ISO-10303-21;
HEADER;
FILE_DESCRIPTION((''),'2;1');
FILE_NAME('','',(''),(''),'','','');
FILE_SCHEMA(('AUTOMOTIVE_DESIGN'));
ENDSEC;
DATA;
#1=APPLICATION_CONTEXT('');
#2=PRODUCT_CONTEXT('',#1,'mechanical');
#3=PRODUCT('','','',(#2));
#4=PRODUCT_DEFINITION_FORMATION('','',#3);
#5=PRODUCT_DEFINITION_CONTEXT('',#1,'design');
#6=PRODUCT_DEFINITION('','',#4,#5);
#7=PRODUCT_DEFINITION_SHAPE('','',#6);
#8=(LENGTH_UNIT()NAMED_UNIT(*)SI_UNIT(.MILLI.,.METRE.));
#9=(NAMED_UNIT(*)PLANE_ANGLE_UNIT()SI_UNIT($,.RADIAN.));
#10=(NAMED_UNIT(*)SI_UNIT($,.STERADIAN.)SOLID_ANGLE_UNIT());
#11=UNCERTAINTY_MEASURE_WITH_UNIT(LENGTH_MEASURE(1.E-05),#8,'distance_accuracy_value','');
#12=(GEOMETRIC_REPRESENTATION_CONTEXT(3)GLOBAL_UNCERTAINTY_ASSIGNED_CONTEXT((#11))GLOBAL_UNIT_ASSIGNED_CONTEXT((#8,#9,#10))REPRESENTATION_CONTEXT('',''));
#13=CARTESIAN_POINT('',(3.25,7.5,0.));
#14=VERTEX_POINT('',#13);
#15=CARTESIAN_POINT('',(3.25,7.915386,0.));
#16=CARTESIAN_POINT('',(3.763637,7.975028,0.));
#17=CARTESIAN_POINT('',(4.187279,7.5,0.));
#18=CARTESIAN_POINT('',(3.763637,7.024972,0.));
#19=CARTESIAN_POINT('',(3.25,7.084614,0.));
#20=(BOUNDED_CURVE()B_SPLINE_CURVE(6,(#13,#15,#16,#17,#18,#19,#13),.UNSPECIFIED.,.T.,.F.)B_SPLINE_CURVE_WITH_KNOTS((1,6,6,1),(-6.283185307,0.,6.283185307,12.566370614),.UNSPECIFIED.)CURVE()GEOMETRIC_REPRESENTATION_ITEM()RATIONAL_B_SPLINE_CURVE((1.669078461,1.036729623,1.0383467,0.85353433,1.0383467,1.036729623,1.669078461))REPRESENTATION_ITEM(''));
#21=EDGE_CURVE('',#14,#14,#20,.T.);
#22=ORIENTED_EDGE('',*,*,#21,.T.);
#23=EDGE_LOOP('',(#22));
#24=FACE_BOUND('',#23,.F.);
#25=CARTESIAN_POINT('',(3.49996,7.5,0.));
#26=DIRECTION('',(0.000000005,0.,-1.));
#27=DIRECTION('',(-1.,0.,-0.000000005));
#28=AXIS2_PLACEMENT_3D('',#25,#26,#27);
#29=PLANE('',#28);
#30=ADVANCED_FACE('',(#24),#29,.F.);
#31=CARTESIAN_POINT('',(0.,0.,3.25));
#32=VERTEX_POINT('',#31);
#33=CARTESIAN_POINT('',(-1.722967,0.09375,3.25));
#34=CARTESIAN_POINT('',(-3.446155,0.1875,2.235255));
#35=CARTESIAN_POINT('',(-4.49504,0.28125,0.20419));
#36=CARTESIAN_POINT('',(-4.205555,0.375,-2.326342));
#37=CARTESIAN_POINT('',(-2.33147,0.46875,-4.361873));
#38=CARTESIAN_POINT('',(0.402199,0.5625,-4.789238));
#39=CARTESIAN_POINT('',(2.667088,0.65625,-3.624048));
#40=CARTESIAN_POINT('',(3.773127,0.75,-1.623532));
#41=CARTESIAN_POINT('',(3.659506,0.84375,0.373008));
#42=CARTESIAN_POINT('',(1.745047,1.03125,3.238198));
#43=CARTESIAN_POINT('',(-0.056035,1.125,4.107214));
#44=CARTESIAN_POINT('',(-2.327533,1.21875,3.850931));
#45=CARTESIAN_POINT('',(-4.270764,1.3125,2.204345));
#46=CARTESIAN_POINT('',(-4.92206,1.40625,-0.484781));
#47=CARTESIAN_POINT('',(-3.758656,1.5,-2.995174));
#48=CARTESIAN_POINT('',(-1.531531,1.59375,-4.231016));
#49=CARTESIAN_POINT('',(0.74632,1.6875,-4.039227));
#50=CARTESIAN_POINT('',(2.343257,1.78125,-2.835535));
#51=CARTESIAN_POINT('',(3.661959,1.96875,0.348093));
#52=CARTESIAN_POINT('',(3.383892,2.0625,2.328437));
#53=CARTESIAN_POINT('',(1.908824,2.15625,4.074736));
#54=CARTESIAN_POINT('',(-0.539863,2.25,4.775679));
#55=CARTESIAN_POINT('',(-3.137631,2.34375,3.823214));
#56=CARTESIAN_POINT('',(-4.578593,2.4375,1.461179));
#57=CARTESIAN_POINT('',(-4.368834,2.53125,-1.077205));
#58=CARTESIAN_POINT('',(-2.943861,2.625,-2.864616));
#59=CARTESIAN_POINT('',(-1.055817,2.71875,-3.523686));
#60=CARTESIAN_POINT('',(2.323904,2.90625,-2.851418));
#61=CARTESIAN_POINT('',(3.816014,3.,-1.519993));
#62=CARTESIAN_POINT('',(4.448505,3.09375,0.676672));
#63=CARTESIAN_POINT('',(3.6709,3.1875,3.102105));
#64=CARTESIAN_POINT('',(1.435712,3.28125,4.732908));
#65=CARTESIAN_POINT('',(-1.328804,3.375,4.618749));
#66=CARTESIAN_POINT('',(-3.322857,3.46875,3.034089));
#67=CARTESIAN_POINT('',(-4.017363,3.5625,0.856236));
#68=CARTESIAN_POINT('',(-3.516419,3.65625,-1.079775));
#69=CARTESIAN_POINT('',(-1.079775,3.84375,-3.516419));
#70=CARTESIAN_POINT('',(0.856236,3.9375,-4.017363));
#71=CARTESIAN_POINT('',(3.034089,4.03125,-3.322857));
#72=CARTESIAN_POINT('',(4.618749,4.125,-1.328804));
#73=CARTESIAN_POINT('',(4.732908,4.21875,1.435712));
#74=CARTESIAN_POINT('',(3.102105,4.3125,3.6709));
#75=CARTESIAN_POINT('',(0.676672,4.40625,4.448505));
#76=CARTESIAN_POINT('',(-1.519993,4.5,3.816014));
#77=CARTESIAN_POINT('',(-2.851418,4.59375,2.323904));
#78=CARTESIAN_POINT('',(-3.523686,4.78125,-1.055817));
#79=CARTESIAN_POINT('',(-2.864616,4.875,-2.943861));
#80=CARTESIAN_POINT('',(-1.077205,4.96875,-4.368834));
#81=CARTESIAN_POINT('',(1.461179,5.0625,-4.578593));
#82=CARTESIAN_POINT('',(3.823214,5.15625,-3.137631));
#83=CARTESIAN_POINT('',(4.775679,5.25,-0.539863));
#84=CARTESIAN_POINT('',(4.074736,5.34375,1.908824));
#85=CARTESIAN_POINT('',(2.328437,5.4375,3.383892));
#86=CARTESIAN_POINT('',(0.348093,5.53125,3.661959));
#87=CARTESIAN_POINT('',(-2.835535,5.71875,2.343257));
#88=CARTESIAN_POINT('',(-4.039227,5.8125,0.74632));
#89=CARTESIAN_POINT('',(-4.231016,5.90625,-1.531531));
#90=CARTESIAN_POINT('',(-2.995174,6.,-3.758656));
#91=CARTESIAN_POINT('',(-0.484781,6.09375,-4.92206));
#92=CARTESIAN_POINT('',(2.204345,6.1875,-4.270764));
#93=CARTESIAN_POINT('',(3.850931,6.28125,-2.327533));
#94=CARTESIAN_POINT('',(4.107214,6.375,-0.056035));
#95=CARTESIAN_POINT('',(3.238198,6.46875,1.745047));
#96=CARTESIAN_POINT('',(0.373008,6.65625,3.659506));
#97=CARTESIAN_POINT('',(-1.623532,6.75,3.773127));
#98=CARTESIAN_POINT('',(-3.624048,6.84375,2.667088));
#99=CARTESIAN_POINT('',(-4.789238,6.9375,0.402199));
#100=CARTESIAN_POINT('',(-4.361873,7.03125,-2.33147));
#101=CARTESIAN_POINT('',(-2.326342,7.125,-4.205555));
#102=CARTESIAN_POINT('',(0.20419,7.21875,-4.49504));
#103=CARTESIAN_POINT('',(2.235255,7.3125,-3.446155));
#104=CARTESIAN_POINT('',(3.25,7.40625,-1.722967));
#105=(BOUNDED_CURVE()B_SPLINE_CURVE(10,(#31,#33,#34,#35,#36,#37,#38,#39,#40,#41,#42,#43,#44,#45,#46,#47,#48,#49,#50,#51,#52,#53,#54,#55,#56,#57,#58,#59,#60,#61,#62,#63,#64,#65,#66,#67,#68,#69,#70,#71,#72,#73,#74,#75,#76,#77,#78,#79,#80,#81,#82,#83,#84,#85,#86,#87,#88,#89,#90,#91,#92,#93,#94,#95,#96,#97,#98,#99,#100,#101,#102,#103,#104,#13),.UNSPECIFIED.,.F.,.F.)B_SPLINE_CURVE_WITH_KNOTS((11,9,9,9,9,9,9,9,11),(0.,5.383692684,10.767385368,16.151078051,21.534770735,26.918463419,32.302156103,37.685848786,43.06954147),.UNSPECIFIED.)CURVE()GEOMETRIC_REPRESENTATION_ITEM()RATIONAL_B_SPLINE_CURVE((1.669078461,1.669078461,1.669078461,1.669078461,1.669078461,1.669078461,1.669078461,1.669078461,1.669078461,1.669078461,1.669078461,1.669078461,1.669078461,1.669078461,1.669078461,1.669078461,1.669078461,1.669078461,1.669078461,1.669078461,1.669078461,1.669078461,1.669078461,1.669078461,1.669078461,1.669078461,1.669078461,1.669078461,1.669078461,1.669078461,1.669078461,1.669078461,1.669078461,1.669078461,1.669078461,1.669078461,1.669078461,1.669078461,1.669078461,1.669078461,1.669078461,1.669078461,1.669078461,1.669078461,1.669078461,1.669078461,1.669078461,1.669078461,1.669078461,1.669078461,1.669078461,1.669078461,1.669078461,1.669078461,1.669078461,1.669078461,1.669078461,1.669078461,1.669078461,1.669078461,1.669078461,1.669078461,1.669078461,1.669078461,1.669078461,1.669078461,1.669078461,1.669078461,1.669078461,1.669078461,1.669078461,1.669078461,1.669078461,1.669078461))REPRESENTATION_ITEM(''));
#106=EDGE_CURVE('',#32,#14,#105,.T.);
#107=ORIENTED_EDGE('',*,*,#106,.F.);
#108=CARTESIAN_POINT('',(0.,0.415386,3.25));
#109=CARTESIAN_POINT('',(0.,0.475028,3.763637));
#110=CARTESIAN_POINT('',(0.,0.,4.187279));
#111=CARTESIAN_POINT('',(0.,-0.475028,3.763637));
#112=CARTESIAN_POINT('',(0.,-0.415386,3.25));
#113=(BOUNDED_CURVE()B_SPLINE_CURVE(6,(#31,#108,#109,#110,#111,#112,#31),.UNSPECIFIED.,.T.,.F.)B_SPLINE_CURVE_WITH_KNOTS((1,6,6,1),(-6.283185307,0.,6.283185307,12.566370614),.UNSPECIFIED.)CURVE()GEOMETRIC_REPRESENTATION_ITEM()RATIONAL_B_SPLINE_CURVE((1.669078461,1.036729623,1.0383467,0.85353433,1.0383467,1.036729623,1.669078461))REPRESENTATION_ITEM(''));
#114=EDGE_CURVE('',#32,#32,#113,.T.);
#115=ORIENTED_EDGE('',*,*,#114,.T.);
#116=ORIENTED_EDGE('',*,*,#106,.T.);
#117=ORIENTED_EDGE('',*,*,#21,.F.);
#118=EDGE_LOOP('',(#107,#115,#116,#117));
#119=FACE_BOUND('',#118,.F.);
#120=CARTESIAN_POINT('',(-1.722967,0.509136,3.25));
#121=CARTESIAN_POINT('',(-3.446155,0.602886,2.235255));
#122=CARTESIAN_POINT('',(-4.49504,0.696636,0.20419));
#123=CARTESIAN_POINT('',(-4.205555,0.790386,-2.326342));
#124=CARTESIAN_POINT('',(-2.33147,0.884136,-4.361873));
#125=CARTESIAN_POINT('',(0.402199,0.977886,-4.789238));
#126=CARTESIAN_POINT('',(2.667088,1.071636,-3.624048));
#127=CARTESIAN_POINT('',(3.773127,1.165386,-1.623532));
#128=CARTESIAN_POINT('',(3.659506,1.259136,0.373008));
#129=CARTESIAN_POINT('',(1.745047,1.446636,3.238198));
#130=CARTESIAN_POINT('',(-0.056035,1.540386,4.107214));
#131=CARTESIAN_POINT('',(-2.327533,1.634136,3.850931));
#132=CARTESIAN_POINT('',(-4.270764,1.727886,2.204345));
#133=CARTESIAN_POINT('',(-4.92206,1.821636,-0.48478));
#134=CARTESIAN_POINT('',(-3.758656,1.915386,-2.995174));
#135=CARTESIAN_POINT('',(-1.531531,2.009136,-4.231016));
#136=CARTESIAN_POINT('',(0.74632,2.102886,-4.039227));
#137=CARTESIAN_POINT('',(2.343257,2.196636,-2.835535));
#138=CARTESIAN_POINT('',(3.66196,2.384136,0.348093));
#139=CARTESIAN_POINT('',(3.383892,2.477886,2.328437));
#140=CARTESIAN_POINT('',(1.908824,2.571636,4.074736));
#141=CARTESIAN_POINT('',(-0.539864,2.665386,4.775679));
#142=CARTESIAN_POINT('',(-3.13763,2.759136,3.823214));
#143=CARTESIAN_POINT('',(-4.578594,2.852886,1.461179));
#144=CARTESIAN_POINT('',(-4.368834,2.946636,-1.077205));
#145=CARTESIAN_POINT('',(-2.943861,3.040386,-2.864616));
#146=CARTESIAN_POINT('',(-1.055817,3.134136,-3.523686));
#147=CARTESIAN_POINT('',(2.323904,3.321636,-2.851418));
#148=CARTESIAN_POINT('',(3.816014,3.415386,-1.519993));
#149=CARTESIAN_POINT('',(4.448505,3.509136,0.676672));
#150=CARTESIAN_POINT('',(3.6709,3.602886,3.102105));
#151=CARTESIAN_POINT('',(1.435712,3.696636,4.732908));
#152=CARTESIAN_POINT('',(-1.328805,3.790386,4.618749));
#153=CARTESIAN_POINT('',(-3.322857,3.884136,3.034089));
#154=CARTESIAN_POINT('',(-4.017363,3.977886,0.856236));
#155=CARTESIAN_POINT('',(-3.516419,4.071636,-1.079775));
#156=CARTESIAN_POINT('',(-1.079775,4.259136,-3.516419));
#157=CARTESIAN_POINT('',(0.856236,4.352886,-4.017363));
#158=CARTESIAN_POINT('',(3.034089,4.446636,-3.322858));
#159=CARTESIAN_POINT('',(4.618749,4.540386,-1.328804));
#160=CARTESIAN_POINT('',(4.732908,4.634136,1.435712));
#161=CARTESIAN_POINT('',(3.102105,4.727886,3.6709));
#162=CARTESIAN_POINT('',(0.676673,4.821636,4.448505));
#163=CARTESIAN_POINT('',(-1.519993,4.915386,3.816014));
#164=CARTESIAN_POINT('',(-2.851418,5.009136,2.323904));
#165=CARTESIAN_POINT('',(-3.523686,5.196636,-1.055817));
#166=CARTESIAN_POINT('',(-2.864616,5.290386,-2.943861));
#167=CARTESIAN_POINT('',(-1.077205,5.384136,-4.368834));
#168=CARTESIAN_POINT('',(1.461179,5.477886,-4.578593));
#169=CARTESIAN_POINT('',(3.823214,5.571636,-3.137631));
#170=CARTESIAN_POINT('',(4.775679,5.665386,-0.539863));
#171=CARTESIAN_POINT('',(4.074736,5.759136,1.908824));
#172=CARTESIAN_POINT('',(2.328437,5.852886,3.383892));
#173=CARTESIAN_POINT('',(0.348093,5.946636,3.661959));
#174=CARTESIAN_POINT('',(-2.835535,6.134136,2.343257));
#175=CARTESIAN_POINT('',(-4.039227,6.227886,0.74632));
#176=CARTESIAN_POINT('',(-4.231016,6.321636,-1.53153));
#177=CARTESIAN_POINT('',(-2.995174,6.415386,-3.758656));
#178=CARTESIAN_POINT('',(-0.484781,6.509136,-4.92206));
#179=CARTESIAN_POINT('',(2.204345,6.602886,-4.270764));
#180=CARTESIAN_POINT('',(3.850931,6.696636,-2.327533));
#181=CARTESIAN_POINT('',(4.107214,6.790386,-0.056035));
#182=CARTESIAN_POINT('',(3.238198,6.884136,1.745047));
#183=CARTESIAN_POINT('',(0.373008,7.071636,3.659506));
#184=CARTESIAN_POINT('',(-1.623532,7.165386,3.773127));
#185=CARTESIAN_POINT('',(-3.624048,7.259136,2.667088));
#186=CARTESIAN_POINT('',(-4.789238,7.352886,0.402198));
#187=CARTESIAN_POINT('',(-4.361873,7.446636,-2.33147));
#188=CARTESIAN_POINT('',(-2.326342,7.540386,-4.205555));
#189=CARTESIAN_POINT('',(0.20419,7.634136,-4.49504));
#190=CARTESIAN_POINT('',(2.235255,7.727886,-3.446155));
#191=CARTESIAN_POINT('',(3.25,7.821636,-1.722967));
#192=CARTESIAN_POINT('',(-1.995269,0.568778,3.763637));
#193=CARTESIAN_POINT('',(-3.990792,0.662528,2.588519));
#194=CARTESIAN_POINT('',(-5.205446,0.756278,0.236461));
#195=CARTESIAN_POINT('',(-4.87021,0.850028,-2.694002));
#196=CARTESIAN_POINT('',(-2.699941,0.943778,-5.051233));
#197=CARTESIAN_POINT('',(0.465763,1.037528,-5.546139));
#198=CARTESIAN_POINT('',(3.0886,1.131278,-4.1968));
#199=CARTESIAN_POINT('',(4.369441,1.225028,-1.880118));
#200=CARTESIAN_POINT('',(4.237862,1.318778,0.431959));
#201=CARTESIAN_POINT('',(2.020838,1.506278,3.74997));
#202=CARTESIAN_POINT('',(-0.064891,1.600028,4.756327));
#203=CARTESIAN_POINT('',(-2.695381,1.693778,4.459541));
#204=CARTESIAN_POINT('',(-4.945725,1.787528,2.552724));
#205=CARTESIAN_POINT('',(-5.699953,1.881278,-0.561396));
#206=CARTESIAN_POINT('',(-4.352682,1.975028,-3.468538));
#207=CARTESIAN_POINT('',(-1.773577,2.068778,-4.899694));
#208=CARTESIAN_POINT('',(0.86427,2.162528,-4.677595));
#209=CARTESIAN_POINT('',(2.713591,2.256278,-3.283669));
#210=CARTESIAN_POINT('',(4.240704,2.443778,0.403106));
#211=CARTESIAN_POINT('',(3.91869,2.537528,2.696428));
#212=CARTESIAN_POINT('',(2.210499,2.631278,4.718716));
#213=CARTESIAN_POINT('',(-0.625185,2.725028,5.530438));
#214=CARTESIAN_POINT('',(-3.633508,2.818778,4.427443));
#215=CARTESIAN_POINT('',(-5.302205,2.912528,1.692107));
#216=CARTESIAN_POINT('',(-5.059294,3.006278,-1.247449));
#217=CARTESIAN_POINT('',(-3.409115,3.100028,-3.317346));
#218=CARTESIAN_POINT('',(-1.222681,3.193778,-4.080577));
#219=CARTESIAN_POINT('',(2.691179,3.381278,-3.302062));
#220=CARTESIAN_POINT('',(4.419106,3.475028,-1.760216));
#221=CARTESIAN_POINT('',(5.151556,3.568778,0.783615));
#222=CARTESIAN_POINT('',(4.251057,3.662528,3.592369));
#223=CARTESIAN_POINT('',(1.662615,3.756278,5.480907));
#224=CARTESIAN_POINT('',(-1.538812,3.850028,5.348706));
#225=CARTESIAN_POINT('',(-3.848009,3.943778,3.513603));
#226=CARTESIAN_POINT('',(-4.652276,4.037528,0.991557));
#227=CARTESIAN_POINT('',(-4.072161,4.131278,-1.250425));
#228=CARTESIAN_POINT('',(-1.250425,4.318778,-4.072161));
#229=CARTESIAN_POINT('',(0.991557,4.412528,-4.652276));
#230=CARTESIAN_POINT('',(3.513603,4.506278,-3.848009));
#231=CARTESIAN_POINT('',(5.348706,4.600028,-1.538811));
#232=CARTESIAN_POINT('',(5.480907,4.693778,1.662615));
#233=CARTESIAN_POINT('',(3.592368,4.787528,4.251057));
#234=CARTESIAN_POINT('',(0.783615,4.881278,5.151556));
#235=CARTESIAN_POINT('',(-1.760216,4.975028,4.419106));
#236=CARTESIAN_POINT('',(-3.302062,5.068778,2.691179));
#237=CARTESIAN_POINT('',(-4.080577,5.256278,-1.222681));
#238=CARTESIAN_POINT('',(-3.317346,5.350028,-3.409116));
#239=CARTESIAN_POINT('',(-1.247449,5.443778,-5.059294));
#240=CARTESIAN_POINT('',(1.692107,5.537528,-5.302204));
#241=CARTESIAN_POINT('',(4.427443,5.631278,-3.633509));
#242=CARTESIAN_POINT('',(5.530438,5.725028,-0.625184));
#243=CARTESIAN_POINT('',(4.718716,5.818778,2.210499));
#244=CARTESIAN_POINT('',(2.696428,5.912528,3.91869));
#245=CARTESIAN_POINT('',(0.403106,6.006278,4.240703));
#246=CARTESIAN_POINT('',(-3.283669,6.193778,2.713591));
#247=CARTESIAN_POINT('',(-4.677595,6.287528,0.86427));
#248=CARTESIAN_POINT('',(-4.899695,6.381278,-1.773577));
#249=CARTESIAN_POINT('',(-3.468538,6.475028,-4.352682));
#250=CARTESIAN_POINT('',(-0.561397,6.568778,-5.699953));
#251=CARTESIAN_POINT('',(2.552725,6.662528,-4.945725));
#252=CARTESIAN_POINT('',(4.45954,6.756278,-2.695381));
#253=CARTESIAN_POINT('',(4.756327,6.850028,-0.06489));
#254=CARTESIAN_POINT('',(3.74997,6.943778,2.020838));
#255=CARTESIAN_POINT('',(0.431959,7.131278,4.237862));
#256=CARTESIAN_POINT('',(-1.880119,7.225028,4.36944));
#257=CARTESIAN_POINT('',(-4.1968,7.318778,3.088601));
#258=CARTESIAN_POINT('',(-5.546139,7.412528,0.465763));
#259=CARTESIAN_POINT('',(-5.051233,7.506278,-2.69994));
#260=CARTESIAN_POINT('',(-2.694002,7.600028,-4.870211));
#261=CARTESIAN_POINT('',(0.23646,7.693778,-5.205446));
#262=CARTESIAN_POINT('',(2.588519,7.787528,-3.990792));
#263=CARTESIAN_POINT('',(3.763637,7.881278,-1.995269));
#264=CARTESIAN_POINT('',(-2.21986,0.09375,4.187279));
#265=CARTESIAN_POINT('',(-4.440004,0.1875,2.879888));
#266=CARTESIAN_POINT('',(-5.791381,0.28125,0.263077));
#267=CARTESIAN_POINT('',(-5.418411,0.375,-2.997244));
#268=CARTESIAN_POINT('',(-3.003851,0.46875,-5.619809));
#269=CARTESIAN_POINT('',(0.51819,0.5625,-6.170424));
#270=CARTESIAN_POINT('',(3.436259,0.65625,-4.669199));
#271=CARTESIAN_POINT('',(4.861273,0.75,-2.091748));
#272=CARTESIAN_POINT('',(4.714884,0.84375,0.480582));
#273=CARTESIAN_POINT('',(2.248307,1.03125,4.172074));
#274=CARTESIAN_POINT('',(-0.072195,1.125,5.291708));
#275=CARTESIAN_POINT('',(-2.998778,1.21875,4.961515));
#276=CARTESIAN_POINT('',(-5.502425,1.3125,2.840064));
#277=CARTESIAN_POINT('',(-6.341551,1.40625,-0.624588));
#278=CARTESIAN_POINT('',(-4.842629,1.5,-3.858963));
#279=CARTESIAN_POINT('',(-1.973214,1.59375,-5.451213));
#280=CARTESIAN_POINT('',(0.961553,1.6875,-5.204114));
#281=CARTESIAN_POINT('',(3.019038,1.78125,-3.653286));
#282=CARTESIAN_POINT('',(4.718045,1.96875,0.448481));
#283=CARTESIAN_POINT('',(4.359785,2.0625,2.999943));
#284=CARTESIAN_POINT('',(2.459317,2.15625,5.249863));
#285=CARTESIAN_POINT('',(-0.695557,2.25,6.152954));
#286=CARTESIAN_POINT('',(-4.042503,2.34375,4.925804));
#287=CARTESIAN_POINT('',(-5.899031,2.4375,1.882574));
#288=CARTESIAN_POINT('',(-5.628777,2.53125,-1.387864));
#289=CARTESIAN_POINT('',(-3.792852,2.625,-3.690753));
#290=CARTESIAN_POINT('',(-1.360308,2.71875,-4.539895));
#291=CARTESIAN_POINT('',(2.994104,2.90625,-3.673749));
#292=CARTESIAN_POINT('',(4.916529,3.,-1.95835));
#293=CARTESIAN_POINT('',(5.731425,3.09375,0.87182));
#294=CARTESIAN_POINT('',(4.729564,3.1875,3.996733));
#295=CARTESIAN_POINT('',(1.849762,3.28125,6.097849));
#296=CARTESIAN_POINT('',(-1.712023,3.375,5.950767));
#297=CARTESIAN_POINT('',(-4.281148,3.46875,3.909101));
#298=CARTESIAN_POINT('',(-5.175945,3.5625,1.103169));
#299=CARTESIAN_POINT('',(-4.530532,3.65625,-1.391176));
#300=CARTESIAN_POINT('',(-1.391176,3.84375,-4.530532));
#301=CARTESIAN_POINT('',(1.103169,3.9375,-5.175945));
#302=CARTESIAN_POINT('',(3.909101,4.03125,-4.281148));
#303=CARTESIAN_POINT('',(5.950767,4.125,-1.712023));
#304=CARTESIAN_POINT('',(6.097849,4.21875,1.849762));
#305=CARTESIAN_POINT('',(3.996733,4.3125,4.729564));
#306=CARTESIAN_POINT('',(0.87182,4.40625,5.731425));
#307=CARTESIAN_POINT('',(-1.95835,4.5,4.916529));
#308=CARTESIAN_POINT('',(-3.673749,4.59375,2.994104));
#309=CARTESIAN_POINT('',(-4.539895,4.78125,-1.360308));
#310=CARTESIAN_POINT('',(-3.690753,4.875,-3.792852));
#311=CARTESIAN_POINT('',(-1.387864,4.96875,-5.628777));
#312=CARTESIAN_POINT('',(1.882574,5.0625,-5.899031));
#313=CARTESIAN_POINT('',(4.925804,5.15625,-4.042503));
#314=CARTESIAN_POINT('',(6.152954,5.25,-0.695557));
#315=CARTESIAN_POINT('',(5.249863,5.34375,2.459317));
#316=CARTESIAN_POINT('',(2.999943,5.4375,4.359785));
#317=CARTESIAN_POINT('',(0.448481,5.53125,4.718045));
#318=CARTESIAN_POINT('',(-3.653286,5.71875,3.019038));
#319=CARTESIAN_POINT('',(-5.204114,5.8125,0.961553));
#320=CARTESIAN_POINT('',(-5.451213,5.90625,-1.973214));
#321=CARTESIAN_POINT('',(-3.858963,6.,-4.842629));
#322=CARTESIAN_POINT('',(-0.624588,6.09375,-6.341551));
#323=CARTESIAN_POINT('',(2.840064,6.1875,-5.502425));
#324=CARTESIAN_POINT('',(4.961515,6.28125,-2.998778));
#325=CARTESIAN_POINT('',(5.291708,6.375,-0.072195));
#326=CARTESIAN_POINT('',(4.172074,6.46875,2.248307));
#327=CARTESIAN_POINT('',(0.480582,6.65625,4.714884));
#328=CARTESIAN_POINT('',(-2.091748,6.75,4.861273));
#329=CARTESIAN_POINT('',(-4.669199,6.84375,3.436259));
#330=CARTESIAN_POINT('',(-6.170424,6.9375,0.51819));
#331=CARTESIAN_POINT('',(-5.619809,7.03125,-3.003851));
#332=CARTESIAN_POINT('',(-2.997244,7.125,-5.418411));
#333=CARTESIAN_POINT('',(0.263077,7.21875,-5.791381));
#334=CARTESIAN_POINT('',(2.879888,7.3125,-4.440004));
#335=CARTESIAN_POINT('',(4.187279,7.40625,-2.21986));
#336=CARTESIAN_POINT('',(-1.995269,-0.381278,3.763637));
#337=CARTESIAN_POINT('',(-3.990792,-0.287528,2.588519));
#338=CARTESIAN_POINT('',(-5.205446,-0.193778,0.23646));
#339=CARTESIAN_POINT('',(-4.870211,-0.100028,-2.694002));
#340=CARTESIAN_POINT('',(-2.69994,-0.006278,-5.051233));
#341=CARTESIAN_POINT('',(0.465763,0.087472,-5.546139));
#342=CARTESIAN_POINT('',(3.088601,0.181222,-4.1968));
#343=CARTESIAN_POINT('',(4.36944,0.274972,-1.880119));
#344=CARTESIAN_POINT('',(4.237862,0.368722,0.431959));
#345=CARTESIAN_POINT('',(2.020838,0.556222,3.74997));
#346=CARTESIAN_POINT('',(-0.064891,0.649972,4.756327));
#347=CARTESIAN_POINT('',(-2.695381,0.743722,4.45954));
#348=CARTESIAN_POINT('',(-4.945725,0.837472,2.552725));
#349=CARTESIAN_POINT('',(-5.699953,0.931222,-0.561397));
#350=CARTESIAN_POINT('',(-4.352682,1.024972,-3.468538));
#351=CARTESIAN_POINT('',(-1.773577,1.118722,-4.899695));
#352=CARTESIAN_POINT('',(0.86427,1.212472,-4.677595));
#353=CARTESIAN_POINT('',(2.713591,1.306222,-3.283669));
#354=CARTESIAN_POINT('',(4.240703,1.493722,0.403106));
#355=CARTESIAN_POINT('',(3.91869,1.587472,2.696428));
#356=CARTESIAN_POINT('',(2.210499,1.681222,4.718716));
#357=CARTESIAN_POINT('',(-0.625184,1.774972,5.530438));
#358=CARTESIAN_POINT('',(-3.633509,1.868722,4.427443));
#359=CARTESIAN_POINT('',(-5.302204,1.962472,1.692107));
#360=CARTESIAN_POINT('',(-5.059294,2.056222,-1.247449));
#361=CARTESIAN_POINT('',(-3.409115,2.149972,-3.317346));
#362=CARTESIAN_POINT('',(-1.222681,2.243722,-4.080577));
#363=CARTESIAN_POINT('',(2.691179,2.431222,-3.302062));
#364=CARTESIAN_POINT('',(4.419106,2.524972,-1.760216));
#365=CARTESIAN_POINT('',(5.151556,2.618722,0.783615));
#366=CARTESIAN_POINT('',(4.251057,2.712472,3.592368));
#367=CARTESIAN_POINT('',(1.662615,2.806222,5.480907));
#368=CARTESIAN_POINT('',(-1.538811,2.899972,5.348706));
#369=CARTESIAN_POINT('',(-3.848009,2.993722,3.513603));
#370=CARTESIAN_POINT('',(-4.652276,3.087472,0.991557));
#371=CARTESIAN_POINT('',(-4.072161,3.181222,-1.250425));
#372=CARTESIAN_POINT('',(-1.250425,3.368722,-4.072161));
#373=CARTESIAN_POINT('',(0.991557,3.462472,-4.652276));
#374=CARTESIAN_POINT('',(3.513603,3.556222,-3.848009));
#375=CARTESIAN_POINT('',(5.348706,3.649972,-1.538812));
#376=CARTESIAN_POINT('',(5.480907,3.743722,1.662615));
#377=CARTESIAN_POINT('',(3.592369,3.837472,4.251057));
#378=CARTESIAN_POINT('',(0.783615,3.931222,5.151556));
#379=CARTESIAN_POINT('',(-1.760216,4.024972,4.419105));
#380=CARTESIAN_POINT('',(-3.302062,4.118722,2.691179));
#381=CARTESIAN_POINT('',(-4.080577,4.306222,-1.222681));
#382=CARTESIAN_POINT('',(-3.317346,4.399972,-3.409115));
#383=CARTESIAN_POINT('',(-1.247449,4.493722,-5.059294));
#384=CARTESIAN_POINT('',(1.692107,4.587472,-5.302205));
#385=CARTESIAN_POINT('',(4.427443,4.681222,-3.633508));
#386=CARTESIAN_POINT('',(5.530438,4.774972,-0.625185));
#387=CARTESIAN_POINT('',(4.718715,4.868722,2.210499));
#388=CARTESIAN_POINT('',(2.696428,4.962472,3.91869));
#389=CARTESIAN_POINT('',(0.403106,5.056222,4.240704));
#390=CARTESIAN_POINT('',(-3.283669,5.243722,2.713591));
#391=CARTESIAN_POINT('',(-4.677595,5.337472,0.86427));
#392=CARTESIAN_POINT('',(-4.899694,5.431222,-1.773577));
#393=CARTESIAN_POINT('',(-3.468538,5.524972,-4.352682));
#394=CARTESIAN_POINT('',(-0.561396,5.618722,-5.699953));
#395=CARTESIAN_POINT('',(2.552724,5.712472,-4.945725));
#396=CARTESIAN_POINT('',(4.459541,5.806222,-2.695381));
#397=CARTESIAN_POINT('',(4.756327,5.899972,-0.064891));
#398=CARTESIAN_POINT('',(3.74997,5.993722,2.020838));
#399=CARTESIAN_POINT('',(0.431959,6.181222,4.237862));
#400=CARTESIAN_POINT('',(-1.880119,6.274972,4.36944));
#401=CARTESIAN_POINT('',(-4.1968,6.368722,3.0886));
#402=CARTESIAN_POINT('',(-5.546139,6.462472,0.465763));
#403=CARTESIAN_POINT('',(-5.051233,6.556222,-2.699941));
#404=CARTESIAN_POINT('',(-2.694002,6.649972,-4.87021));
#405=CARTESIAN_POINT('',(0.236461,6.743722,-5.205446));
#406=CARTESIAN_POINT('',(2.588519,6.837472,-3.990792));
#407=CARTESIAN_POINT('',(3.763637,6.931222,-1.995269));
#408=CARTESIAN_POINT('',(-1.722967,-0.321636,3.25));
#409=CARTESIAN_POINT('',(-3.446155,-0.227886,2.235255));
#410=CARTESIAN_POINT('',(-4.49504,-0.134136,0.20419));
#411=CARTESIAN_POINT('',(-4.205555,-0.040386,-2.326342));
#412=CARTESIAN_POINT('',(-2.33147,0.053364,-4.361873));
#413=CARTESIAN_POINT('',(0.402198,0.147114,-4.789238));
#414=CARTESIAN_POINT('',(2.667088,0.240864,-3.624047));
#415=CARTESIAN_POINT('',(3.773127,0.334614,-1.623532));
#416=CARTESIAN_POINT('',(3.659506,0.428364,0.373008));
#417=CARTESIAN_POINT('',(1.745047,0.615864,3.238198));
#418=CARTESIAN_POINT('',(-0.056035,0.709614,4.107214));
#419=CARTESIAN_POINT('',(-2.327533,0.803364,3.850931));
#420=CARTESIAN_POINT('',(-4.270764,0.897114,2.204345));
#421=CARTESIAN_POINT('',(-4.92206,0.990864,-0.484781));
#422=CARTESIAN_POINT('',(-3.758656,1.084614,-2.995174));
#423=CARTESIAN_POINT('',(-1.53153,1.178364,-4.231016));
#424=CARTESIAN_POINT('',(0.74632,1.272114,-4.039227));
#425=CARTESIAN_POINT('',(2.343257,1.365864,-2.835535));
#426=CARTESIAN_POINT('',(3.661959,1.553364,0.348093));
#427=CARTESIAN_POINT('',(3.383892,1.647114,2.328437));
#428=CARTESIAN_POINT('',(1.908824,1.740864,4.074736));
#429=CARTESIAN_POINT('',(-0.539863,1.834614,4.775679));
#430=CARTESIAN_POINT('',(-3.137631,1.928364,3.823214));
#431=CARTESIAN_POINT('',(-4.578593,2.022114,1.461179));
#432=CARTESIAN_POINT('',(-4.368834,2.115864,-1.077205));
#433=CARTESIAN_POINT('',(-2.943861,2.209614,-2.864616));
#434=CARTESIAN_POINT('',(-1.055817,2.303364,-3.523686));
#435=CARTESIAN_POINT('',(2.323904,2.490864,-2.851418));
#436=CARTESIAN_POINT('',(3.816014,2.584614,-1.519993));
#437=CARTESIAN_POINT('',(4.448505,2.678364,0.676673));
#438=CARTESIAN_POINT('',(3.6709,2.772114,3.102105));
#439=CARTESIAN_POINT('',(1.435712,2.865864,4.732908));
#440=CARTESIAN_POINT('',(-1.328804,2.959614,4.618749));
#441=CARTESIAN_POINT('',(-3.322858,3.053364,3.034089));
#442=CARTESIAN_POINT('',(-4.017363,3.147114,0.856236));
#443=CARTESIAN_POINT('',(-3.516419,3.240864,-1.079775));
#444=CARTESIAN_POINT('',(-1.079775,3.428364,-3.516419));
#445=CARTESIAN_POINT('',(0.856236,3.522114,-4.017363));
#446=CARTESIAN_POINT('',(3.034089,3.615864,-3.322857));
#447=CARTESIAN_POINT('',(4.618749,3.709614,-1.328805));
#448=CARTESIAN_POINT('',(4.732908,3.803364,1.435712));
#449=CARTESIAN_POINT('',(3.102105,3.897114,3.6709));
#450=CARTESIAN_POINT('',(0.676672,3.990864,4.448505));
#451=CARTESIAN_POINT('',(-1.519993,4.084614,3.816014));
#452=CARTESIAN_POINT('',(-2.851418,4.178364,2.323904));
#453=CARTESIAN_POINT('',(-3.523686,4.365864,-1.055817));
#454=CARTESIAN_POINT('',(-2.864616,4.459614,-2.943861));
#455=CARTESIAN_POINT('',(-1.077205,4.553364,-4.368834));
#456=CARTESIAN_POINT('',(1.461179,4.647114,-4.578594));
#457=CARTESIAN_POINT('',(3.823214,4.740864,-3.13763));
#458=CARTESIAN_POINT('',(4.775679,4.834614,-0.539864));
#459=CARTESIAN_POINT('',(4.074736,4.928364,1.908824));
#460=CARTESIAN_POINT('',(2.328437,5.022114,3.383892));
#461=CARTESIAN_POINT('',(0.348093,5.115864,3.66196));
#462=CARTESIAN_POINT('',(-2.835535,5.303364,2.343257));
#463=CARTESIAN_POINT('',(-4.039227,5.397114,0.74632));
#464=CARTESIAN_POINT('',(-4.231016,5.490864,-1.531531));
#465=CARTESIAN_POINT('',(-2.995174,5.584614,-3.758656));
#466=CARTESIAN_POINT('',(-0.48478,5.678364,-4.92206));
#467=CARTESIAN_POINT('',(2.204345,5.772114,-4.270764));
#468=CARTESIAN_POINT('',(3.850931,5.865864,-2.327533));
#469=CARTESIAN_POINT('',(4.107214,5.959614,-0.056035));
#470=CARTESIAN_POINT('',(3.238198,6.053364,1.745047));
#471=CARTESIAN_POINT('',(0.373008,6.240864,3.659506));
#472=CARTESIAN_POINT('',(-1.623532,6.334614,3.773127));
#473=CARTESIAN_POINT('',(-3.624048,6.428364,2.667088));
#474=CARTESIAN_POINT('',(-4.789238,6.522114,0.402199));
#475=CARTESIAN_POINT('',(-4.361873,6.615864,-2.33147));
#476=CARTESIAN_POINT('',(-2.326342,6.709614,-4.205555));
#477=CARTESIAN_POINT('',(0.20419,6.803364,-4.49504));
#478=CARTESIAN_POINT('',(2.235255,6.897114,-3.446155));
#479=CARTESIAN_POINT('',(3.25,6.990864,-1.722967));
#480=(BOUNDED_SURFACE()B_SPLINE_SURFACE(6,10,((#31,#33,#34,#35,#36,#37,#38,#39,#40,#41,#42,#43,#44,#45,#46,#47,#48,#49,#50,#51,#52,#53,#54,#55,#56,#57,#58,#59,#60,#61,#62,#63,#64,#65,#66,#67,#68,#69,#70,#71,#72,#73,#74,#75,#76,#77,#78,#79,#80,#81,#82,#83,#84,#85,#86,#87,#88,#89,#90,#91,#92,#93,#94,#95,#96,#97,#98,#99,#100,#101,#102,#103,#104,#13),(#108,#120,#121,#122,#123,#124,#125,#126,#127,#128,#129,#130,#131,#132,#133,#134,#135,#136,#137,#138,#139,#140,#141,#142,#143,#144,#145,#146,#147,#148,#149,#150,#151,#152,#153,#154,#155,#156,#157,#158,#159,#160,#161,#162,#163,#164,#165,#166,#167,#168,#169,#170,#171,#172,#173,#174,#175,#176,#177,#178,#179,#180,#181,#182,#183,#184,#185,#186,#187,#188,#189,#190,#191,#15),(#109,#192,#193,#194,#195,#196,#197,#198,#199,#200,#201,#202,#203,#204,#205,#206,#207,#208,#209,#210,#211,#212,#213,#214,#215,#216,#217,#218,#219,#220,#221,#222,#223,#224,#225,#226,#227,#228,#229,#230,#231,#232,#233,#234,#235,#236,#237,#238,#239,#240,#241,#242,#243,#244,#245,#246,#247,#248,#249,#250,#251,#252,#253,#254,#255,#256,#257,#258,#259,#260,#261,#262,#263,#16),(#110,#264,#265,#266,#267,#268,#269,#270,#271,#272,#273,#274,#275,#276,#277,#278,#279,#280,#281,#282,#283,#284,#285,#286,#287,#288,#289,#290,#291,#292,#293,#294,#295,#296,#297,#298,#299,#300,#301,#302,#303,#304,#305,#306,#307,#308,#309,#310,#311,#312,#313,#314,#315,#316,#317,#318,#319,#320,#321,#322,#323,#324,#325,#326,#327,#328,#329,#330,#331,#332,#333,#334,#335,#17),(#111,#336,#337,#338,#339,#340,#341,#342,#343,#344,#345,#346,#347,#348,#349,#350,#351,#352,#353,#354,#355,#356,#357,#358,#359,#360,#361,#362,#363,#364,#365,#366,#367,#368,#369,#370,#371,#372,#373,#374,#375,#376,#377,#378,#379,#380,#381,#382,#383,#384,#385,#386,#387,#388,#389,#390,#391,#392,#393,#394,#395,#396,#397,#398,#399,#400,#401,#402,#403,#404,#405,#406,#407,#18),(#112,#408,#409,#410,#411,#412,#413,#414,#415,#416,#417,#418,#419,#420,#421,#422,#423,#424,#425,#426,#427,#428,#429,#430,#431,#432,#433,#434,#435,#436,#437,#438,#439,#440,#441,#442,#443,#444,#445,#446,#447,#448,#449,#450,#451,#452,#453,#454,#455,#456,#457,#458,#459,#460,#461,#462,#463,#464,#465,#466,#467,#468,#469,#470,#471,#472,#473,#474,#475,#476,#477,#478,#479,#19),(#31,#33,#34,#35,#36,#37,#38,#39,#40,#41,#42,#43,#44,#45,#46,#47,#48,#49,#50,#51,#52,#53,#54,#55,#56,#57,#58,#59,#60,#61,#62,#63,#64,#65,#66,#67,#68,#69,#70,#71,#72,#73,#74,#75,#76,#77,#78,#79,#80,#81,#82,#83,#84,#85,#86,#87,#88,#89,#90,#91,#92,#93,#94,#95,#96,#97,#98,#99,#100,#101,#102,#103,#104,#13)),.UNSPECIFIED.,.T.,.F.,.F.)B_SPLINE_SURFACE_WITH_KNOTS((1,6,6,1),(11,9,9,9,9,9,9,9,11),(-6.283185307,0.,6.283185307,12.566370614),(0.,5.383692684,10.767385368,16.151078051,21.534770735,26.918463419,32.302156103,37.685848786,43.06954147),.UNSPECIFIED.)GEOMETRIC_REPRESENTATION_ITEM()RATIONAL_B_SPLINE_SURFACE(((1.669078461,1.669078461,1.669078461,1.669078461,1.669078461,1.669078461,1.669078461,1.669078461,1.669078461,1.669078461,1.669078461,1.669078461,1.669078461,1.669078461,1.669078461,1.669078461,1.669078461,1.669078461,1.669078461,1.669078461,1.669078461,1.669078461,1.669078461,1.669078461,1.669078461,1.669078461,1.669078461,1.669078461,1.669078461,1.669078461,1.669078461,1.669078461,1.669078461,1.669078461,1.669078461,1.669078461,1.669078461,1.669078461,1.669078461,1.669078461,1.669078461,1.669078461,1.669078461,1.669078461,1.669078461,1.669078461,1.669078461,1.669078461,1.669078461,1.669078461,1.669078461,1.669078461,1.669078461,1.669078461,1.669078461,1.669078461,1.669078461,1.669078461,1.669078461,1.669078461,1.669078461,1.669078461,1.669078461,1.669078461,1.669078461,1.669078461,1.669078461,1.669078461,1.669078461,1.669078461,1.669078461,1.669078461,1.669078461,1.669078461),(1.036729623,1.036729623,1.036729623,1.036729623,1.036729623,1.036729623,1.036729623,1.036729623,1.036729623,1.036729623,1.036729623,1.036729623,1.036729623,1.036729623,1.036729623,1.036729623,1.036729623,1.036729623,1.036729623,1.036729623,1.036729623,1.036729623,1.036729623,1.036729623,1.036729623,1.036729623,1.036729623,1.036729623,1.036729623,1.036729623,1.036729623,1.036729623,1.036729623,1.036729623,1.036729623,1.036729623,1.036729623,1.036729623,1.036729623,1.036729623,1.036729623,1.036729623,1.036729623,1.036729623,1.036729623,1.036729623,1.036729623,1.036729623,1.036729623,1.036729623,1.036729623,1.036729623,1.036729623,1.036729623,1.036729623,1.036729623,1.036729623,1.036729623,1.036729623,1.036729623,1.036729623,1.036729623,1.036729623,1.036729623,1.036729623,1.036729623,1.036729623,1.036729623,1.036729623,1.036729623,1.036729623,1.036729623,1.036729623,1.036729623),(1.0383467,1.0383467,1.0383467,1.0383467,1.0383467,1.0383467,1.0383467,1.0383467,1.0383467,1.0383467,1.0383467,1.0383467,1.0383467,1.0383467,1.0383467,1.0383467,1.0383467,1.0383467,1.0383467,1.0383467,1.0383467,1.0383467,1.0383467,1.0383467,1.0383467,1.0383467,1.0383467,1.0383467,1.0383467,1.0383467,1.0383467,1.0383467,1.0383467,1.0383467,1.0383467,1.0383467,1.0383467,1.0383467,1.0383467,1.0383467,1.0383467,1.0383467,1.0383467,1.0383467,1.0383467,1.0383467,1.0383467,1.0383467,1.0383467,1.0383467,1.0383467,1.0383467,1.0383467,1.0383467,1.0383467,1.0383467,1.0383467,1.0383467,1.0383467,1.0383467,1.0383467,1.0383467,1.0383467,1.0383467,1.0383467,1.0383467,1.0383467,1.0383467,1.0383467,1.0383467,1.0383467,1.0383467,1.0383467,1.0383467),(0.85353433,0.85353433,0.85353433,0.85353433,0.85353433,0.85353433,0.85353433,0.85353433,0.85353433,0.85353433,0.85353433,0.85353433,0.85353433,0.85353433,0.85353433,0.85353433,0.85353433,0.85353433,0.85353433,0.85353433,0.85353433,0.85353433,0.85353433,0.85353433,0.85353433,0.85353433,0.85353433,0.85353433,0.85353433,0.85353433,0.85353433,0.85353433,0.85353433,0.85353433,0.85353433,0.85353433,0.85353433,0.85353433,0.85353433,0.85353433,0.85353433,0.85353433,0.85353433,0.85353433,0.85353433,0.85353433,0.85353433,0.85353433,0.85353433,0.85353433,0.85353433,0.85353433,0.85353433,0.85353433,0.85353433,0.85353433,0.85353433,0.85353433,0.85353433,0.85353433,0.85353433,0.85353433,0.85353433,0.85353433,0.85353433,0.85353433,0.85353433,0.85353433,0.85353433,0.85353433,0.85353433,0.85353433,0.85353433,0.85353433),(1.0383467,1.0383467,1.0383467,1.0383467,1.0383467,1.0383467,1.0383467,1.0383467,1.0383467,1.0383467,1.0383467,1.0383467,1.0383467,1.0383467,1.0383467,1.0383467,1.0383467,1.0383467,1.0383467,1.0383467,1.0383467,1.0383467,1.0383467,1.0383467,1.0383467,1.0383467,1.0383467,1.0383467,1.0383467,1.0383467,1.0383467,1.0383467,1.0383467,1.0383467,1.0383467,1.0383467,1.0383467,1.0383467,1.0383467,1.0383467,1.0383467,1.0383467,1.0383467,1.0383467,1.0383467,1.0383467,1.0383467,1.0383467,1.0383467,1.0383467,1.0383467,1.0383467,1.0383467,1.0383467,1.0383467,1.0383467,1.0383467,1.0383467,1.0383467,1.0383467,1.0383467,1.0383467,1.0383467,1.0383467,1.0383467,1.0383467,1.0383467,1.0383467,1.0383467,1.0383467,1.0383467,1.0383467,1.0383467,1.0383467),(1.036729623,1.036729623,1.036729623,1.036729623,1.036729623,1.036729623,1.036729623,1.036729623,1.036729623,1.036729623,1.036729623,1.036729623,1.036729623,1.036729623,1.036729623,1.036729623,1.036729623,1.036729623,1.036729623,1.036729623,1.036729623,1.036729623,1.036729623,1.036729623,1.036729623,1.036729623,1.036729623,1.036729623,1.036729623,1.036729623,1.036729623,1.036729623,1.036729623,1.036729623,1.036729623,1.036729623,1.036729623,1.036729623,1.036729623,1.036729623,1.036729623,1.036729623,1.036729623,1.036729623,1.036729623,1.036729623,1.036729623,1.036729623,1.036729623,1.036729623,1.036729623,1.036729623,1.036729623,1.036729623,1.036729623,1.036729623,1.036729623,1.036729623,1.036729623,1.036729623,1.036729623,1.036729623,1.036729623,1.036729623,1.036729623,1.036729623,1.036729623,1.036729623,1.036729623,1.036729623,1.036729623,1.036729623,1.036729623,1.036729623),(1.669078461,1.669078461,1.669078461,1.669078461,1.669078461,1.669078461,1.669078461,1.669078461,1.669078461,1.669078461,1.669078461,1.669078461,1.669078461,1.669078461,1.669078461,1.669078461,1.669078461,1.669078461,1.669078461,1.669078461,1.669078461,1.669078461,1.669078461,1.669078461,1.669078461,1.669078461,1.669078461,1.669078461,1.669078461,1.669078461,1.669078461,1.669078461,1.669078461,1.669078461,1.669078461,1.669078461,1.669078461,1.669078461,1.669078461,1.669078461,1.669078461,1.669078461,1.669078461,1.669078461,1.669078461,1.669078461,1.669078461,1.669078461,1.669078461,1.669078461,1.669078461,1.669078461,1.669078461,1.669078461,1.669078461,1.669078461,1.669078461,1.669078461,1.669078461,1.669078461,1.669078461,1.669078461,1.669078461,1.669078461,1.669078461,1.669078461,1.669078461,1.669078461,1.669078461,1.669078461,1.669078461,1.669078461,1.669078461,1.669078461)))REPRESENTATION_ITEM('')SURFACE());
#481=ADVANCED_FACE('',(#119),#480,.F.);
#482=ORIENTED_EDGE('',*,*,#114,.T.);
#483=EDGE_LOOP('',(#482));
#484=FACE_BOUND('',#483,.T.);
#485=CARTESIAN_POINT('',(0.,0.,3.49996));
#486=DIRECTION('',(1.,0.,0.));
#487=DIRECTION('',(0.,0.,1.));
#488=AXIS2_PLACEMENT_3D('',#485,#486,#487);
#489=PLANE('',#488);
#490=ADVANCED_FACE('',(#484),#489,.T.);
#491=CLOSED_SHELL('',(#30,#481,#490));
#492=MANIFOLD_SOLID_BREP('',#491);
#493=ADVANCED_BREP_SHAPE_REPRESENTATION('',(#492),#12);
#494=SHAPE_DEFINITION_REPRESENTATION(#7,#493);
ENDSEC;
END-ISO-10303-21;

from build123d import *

# Parameters (mm, degrees)
SWEEP1_PITCH  = 1.111111111
SWEEP1_HEIGHT = 7.5
SWEEP1_RADIUS = 3.5
SKETCH3_R     = 0.25


with BuildPart() as part:
    # Sweep1: sweep along a helix
    with BuildLine() as sweep1_path:
        Helix(SWEEP1_PITCH, SWEEP1_HEIGHT, SWEEP1_RADIUS, center=(0, 0, 0), direction=(0, 1, 0), lefthand=True)
    # Sketch3 → Sweep1 (sweep)
    with BuildSketch(Plane(origin=(0, 0, 0), x_dir=(0, 0, -1), z_dir=(1, 0, 0))):
        with Locations((-3.5, 0)):
            Circle(SKETCH3_R)
    sweep(path=sweep1_path.line, is_frenet=True)


solid = part.part
